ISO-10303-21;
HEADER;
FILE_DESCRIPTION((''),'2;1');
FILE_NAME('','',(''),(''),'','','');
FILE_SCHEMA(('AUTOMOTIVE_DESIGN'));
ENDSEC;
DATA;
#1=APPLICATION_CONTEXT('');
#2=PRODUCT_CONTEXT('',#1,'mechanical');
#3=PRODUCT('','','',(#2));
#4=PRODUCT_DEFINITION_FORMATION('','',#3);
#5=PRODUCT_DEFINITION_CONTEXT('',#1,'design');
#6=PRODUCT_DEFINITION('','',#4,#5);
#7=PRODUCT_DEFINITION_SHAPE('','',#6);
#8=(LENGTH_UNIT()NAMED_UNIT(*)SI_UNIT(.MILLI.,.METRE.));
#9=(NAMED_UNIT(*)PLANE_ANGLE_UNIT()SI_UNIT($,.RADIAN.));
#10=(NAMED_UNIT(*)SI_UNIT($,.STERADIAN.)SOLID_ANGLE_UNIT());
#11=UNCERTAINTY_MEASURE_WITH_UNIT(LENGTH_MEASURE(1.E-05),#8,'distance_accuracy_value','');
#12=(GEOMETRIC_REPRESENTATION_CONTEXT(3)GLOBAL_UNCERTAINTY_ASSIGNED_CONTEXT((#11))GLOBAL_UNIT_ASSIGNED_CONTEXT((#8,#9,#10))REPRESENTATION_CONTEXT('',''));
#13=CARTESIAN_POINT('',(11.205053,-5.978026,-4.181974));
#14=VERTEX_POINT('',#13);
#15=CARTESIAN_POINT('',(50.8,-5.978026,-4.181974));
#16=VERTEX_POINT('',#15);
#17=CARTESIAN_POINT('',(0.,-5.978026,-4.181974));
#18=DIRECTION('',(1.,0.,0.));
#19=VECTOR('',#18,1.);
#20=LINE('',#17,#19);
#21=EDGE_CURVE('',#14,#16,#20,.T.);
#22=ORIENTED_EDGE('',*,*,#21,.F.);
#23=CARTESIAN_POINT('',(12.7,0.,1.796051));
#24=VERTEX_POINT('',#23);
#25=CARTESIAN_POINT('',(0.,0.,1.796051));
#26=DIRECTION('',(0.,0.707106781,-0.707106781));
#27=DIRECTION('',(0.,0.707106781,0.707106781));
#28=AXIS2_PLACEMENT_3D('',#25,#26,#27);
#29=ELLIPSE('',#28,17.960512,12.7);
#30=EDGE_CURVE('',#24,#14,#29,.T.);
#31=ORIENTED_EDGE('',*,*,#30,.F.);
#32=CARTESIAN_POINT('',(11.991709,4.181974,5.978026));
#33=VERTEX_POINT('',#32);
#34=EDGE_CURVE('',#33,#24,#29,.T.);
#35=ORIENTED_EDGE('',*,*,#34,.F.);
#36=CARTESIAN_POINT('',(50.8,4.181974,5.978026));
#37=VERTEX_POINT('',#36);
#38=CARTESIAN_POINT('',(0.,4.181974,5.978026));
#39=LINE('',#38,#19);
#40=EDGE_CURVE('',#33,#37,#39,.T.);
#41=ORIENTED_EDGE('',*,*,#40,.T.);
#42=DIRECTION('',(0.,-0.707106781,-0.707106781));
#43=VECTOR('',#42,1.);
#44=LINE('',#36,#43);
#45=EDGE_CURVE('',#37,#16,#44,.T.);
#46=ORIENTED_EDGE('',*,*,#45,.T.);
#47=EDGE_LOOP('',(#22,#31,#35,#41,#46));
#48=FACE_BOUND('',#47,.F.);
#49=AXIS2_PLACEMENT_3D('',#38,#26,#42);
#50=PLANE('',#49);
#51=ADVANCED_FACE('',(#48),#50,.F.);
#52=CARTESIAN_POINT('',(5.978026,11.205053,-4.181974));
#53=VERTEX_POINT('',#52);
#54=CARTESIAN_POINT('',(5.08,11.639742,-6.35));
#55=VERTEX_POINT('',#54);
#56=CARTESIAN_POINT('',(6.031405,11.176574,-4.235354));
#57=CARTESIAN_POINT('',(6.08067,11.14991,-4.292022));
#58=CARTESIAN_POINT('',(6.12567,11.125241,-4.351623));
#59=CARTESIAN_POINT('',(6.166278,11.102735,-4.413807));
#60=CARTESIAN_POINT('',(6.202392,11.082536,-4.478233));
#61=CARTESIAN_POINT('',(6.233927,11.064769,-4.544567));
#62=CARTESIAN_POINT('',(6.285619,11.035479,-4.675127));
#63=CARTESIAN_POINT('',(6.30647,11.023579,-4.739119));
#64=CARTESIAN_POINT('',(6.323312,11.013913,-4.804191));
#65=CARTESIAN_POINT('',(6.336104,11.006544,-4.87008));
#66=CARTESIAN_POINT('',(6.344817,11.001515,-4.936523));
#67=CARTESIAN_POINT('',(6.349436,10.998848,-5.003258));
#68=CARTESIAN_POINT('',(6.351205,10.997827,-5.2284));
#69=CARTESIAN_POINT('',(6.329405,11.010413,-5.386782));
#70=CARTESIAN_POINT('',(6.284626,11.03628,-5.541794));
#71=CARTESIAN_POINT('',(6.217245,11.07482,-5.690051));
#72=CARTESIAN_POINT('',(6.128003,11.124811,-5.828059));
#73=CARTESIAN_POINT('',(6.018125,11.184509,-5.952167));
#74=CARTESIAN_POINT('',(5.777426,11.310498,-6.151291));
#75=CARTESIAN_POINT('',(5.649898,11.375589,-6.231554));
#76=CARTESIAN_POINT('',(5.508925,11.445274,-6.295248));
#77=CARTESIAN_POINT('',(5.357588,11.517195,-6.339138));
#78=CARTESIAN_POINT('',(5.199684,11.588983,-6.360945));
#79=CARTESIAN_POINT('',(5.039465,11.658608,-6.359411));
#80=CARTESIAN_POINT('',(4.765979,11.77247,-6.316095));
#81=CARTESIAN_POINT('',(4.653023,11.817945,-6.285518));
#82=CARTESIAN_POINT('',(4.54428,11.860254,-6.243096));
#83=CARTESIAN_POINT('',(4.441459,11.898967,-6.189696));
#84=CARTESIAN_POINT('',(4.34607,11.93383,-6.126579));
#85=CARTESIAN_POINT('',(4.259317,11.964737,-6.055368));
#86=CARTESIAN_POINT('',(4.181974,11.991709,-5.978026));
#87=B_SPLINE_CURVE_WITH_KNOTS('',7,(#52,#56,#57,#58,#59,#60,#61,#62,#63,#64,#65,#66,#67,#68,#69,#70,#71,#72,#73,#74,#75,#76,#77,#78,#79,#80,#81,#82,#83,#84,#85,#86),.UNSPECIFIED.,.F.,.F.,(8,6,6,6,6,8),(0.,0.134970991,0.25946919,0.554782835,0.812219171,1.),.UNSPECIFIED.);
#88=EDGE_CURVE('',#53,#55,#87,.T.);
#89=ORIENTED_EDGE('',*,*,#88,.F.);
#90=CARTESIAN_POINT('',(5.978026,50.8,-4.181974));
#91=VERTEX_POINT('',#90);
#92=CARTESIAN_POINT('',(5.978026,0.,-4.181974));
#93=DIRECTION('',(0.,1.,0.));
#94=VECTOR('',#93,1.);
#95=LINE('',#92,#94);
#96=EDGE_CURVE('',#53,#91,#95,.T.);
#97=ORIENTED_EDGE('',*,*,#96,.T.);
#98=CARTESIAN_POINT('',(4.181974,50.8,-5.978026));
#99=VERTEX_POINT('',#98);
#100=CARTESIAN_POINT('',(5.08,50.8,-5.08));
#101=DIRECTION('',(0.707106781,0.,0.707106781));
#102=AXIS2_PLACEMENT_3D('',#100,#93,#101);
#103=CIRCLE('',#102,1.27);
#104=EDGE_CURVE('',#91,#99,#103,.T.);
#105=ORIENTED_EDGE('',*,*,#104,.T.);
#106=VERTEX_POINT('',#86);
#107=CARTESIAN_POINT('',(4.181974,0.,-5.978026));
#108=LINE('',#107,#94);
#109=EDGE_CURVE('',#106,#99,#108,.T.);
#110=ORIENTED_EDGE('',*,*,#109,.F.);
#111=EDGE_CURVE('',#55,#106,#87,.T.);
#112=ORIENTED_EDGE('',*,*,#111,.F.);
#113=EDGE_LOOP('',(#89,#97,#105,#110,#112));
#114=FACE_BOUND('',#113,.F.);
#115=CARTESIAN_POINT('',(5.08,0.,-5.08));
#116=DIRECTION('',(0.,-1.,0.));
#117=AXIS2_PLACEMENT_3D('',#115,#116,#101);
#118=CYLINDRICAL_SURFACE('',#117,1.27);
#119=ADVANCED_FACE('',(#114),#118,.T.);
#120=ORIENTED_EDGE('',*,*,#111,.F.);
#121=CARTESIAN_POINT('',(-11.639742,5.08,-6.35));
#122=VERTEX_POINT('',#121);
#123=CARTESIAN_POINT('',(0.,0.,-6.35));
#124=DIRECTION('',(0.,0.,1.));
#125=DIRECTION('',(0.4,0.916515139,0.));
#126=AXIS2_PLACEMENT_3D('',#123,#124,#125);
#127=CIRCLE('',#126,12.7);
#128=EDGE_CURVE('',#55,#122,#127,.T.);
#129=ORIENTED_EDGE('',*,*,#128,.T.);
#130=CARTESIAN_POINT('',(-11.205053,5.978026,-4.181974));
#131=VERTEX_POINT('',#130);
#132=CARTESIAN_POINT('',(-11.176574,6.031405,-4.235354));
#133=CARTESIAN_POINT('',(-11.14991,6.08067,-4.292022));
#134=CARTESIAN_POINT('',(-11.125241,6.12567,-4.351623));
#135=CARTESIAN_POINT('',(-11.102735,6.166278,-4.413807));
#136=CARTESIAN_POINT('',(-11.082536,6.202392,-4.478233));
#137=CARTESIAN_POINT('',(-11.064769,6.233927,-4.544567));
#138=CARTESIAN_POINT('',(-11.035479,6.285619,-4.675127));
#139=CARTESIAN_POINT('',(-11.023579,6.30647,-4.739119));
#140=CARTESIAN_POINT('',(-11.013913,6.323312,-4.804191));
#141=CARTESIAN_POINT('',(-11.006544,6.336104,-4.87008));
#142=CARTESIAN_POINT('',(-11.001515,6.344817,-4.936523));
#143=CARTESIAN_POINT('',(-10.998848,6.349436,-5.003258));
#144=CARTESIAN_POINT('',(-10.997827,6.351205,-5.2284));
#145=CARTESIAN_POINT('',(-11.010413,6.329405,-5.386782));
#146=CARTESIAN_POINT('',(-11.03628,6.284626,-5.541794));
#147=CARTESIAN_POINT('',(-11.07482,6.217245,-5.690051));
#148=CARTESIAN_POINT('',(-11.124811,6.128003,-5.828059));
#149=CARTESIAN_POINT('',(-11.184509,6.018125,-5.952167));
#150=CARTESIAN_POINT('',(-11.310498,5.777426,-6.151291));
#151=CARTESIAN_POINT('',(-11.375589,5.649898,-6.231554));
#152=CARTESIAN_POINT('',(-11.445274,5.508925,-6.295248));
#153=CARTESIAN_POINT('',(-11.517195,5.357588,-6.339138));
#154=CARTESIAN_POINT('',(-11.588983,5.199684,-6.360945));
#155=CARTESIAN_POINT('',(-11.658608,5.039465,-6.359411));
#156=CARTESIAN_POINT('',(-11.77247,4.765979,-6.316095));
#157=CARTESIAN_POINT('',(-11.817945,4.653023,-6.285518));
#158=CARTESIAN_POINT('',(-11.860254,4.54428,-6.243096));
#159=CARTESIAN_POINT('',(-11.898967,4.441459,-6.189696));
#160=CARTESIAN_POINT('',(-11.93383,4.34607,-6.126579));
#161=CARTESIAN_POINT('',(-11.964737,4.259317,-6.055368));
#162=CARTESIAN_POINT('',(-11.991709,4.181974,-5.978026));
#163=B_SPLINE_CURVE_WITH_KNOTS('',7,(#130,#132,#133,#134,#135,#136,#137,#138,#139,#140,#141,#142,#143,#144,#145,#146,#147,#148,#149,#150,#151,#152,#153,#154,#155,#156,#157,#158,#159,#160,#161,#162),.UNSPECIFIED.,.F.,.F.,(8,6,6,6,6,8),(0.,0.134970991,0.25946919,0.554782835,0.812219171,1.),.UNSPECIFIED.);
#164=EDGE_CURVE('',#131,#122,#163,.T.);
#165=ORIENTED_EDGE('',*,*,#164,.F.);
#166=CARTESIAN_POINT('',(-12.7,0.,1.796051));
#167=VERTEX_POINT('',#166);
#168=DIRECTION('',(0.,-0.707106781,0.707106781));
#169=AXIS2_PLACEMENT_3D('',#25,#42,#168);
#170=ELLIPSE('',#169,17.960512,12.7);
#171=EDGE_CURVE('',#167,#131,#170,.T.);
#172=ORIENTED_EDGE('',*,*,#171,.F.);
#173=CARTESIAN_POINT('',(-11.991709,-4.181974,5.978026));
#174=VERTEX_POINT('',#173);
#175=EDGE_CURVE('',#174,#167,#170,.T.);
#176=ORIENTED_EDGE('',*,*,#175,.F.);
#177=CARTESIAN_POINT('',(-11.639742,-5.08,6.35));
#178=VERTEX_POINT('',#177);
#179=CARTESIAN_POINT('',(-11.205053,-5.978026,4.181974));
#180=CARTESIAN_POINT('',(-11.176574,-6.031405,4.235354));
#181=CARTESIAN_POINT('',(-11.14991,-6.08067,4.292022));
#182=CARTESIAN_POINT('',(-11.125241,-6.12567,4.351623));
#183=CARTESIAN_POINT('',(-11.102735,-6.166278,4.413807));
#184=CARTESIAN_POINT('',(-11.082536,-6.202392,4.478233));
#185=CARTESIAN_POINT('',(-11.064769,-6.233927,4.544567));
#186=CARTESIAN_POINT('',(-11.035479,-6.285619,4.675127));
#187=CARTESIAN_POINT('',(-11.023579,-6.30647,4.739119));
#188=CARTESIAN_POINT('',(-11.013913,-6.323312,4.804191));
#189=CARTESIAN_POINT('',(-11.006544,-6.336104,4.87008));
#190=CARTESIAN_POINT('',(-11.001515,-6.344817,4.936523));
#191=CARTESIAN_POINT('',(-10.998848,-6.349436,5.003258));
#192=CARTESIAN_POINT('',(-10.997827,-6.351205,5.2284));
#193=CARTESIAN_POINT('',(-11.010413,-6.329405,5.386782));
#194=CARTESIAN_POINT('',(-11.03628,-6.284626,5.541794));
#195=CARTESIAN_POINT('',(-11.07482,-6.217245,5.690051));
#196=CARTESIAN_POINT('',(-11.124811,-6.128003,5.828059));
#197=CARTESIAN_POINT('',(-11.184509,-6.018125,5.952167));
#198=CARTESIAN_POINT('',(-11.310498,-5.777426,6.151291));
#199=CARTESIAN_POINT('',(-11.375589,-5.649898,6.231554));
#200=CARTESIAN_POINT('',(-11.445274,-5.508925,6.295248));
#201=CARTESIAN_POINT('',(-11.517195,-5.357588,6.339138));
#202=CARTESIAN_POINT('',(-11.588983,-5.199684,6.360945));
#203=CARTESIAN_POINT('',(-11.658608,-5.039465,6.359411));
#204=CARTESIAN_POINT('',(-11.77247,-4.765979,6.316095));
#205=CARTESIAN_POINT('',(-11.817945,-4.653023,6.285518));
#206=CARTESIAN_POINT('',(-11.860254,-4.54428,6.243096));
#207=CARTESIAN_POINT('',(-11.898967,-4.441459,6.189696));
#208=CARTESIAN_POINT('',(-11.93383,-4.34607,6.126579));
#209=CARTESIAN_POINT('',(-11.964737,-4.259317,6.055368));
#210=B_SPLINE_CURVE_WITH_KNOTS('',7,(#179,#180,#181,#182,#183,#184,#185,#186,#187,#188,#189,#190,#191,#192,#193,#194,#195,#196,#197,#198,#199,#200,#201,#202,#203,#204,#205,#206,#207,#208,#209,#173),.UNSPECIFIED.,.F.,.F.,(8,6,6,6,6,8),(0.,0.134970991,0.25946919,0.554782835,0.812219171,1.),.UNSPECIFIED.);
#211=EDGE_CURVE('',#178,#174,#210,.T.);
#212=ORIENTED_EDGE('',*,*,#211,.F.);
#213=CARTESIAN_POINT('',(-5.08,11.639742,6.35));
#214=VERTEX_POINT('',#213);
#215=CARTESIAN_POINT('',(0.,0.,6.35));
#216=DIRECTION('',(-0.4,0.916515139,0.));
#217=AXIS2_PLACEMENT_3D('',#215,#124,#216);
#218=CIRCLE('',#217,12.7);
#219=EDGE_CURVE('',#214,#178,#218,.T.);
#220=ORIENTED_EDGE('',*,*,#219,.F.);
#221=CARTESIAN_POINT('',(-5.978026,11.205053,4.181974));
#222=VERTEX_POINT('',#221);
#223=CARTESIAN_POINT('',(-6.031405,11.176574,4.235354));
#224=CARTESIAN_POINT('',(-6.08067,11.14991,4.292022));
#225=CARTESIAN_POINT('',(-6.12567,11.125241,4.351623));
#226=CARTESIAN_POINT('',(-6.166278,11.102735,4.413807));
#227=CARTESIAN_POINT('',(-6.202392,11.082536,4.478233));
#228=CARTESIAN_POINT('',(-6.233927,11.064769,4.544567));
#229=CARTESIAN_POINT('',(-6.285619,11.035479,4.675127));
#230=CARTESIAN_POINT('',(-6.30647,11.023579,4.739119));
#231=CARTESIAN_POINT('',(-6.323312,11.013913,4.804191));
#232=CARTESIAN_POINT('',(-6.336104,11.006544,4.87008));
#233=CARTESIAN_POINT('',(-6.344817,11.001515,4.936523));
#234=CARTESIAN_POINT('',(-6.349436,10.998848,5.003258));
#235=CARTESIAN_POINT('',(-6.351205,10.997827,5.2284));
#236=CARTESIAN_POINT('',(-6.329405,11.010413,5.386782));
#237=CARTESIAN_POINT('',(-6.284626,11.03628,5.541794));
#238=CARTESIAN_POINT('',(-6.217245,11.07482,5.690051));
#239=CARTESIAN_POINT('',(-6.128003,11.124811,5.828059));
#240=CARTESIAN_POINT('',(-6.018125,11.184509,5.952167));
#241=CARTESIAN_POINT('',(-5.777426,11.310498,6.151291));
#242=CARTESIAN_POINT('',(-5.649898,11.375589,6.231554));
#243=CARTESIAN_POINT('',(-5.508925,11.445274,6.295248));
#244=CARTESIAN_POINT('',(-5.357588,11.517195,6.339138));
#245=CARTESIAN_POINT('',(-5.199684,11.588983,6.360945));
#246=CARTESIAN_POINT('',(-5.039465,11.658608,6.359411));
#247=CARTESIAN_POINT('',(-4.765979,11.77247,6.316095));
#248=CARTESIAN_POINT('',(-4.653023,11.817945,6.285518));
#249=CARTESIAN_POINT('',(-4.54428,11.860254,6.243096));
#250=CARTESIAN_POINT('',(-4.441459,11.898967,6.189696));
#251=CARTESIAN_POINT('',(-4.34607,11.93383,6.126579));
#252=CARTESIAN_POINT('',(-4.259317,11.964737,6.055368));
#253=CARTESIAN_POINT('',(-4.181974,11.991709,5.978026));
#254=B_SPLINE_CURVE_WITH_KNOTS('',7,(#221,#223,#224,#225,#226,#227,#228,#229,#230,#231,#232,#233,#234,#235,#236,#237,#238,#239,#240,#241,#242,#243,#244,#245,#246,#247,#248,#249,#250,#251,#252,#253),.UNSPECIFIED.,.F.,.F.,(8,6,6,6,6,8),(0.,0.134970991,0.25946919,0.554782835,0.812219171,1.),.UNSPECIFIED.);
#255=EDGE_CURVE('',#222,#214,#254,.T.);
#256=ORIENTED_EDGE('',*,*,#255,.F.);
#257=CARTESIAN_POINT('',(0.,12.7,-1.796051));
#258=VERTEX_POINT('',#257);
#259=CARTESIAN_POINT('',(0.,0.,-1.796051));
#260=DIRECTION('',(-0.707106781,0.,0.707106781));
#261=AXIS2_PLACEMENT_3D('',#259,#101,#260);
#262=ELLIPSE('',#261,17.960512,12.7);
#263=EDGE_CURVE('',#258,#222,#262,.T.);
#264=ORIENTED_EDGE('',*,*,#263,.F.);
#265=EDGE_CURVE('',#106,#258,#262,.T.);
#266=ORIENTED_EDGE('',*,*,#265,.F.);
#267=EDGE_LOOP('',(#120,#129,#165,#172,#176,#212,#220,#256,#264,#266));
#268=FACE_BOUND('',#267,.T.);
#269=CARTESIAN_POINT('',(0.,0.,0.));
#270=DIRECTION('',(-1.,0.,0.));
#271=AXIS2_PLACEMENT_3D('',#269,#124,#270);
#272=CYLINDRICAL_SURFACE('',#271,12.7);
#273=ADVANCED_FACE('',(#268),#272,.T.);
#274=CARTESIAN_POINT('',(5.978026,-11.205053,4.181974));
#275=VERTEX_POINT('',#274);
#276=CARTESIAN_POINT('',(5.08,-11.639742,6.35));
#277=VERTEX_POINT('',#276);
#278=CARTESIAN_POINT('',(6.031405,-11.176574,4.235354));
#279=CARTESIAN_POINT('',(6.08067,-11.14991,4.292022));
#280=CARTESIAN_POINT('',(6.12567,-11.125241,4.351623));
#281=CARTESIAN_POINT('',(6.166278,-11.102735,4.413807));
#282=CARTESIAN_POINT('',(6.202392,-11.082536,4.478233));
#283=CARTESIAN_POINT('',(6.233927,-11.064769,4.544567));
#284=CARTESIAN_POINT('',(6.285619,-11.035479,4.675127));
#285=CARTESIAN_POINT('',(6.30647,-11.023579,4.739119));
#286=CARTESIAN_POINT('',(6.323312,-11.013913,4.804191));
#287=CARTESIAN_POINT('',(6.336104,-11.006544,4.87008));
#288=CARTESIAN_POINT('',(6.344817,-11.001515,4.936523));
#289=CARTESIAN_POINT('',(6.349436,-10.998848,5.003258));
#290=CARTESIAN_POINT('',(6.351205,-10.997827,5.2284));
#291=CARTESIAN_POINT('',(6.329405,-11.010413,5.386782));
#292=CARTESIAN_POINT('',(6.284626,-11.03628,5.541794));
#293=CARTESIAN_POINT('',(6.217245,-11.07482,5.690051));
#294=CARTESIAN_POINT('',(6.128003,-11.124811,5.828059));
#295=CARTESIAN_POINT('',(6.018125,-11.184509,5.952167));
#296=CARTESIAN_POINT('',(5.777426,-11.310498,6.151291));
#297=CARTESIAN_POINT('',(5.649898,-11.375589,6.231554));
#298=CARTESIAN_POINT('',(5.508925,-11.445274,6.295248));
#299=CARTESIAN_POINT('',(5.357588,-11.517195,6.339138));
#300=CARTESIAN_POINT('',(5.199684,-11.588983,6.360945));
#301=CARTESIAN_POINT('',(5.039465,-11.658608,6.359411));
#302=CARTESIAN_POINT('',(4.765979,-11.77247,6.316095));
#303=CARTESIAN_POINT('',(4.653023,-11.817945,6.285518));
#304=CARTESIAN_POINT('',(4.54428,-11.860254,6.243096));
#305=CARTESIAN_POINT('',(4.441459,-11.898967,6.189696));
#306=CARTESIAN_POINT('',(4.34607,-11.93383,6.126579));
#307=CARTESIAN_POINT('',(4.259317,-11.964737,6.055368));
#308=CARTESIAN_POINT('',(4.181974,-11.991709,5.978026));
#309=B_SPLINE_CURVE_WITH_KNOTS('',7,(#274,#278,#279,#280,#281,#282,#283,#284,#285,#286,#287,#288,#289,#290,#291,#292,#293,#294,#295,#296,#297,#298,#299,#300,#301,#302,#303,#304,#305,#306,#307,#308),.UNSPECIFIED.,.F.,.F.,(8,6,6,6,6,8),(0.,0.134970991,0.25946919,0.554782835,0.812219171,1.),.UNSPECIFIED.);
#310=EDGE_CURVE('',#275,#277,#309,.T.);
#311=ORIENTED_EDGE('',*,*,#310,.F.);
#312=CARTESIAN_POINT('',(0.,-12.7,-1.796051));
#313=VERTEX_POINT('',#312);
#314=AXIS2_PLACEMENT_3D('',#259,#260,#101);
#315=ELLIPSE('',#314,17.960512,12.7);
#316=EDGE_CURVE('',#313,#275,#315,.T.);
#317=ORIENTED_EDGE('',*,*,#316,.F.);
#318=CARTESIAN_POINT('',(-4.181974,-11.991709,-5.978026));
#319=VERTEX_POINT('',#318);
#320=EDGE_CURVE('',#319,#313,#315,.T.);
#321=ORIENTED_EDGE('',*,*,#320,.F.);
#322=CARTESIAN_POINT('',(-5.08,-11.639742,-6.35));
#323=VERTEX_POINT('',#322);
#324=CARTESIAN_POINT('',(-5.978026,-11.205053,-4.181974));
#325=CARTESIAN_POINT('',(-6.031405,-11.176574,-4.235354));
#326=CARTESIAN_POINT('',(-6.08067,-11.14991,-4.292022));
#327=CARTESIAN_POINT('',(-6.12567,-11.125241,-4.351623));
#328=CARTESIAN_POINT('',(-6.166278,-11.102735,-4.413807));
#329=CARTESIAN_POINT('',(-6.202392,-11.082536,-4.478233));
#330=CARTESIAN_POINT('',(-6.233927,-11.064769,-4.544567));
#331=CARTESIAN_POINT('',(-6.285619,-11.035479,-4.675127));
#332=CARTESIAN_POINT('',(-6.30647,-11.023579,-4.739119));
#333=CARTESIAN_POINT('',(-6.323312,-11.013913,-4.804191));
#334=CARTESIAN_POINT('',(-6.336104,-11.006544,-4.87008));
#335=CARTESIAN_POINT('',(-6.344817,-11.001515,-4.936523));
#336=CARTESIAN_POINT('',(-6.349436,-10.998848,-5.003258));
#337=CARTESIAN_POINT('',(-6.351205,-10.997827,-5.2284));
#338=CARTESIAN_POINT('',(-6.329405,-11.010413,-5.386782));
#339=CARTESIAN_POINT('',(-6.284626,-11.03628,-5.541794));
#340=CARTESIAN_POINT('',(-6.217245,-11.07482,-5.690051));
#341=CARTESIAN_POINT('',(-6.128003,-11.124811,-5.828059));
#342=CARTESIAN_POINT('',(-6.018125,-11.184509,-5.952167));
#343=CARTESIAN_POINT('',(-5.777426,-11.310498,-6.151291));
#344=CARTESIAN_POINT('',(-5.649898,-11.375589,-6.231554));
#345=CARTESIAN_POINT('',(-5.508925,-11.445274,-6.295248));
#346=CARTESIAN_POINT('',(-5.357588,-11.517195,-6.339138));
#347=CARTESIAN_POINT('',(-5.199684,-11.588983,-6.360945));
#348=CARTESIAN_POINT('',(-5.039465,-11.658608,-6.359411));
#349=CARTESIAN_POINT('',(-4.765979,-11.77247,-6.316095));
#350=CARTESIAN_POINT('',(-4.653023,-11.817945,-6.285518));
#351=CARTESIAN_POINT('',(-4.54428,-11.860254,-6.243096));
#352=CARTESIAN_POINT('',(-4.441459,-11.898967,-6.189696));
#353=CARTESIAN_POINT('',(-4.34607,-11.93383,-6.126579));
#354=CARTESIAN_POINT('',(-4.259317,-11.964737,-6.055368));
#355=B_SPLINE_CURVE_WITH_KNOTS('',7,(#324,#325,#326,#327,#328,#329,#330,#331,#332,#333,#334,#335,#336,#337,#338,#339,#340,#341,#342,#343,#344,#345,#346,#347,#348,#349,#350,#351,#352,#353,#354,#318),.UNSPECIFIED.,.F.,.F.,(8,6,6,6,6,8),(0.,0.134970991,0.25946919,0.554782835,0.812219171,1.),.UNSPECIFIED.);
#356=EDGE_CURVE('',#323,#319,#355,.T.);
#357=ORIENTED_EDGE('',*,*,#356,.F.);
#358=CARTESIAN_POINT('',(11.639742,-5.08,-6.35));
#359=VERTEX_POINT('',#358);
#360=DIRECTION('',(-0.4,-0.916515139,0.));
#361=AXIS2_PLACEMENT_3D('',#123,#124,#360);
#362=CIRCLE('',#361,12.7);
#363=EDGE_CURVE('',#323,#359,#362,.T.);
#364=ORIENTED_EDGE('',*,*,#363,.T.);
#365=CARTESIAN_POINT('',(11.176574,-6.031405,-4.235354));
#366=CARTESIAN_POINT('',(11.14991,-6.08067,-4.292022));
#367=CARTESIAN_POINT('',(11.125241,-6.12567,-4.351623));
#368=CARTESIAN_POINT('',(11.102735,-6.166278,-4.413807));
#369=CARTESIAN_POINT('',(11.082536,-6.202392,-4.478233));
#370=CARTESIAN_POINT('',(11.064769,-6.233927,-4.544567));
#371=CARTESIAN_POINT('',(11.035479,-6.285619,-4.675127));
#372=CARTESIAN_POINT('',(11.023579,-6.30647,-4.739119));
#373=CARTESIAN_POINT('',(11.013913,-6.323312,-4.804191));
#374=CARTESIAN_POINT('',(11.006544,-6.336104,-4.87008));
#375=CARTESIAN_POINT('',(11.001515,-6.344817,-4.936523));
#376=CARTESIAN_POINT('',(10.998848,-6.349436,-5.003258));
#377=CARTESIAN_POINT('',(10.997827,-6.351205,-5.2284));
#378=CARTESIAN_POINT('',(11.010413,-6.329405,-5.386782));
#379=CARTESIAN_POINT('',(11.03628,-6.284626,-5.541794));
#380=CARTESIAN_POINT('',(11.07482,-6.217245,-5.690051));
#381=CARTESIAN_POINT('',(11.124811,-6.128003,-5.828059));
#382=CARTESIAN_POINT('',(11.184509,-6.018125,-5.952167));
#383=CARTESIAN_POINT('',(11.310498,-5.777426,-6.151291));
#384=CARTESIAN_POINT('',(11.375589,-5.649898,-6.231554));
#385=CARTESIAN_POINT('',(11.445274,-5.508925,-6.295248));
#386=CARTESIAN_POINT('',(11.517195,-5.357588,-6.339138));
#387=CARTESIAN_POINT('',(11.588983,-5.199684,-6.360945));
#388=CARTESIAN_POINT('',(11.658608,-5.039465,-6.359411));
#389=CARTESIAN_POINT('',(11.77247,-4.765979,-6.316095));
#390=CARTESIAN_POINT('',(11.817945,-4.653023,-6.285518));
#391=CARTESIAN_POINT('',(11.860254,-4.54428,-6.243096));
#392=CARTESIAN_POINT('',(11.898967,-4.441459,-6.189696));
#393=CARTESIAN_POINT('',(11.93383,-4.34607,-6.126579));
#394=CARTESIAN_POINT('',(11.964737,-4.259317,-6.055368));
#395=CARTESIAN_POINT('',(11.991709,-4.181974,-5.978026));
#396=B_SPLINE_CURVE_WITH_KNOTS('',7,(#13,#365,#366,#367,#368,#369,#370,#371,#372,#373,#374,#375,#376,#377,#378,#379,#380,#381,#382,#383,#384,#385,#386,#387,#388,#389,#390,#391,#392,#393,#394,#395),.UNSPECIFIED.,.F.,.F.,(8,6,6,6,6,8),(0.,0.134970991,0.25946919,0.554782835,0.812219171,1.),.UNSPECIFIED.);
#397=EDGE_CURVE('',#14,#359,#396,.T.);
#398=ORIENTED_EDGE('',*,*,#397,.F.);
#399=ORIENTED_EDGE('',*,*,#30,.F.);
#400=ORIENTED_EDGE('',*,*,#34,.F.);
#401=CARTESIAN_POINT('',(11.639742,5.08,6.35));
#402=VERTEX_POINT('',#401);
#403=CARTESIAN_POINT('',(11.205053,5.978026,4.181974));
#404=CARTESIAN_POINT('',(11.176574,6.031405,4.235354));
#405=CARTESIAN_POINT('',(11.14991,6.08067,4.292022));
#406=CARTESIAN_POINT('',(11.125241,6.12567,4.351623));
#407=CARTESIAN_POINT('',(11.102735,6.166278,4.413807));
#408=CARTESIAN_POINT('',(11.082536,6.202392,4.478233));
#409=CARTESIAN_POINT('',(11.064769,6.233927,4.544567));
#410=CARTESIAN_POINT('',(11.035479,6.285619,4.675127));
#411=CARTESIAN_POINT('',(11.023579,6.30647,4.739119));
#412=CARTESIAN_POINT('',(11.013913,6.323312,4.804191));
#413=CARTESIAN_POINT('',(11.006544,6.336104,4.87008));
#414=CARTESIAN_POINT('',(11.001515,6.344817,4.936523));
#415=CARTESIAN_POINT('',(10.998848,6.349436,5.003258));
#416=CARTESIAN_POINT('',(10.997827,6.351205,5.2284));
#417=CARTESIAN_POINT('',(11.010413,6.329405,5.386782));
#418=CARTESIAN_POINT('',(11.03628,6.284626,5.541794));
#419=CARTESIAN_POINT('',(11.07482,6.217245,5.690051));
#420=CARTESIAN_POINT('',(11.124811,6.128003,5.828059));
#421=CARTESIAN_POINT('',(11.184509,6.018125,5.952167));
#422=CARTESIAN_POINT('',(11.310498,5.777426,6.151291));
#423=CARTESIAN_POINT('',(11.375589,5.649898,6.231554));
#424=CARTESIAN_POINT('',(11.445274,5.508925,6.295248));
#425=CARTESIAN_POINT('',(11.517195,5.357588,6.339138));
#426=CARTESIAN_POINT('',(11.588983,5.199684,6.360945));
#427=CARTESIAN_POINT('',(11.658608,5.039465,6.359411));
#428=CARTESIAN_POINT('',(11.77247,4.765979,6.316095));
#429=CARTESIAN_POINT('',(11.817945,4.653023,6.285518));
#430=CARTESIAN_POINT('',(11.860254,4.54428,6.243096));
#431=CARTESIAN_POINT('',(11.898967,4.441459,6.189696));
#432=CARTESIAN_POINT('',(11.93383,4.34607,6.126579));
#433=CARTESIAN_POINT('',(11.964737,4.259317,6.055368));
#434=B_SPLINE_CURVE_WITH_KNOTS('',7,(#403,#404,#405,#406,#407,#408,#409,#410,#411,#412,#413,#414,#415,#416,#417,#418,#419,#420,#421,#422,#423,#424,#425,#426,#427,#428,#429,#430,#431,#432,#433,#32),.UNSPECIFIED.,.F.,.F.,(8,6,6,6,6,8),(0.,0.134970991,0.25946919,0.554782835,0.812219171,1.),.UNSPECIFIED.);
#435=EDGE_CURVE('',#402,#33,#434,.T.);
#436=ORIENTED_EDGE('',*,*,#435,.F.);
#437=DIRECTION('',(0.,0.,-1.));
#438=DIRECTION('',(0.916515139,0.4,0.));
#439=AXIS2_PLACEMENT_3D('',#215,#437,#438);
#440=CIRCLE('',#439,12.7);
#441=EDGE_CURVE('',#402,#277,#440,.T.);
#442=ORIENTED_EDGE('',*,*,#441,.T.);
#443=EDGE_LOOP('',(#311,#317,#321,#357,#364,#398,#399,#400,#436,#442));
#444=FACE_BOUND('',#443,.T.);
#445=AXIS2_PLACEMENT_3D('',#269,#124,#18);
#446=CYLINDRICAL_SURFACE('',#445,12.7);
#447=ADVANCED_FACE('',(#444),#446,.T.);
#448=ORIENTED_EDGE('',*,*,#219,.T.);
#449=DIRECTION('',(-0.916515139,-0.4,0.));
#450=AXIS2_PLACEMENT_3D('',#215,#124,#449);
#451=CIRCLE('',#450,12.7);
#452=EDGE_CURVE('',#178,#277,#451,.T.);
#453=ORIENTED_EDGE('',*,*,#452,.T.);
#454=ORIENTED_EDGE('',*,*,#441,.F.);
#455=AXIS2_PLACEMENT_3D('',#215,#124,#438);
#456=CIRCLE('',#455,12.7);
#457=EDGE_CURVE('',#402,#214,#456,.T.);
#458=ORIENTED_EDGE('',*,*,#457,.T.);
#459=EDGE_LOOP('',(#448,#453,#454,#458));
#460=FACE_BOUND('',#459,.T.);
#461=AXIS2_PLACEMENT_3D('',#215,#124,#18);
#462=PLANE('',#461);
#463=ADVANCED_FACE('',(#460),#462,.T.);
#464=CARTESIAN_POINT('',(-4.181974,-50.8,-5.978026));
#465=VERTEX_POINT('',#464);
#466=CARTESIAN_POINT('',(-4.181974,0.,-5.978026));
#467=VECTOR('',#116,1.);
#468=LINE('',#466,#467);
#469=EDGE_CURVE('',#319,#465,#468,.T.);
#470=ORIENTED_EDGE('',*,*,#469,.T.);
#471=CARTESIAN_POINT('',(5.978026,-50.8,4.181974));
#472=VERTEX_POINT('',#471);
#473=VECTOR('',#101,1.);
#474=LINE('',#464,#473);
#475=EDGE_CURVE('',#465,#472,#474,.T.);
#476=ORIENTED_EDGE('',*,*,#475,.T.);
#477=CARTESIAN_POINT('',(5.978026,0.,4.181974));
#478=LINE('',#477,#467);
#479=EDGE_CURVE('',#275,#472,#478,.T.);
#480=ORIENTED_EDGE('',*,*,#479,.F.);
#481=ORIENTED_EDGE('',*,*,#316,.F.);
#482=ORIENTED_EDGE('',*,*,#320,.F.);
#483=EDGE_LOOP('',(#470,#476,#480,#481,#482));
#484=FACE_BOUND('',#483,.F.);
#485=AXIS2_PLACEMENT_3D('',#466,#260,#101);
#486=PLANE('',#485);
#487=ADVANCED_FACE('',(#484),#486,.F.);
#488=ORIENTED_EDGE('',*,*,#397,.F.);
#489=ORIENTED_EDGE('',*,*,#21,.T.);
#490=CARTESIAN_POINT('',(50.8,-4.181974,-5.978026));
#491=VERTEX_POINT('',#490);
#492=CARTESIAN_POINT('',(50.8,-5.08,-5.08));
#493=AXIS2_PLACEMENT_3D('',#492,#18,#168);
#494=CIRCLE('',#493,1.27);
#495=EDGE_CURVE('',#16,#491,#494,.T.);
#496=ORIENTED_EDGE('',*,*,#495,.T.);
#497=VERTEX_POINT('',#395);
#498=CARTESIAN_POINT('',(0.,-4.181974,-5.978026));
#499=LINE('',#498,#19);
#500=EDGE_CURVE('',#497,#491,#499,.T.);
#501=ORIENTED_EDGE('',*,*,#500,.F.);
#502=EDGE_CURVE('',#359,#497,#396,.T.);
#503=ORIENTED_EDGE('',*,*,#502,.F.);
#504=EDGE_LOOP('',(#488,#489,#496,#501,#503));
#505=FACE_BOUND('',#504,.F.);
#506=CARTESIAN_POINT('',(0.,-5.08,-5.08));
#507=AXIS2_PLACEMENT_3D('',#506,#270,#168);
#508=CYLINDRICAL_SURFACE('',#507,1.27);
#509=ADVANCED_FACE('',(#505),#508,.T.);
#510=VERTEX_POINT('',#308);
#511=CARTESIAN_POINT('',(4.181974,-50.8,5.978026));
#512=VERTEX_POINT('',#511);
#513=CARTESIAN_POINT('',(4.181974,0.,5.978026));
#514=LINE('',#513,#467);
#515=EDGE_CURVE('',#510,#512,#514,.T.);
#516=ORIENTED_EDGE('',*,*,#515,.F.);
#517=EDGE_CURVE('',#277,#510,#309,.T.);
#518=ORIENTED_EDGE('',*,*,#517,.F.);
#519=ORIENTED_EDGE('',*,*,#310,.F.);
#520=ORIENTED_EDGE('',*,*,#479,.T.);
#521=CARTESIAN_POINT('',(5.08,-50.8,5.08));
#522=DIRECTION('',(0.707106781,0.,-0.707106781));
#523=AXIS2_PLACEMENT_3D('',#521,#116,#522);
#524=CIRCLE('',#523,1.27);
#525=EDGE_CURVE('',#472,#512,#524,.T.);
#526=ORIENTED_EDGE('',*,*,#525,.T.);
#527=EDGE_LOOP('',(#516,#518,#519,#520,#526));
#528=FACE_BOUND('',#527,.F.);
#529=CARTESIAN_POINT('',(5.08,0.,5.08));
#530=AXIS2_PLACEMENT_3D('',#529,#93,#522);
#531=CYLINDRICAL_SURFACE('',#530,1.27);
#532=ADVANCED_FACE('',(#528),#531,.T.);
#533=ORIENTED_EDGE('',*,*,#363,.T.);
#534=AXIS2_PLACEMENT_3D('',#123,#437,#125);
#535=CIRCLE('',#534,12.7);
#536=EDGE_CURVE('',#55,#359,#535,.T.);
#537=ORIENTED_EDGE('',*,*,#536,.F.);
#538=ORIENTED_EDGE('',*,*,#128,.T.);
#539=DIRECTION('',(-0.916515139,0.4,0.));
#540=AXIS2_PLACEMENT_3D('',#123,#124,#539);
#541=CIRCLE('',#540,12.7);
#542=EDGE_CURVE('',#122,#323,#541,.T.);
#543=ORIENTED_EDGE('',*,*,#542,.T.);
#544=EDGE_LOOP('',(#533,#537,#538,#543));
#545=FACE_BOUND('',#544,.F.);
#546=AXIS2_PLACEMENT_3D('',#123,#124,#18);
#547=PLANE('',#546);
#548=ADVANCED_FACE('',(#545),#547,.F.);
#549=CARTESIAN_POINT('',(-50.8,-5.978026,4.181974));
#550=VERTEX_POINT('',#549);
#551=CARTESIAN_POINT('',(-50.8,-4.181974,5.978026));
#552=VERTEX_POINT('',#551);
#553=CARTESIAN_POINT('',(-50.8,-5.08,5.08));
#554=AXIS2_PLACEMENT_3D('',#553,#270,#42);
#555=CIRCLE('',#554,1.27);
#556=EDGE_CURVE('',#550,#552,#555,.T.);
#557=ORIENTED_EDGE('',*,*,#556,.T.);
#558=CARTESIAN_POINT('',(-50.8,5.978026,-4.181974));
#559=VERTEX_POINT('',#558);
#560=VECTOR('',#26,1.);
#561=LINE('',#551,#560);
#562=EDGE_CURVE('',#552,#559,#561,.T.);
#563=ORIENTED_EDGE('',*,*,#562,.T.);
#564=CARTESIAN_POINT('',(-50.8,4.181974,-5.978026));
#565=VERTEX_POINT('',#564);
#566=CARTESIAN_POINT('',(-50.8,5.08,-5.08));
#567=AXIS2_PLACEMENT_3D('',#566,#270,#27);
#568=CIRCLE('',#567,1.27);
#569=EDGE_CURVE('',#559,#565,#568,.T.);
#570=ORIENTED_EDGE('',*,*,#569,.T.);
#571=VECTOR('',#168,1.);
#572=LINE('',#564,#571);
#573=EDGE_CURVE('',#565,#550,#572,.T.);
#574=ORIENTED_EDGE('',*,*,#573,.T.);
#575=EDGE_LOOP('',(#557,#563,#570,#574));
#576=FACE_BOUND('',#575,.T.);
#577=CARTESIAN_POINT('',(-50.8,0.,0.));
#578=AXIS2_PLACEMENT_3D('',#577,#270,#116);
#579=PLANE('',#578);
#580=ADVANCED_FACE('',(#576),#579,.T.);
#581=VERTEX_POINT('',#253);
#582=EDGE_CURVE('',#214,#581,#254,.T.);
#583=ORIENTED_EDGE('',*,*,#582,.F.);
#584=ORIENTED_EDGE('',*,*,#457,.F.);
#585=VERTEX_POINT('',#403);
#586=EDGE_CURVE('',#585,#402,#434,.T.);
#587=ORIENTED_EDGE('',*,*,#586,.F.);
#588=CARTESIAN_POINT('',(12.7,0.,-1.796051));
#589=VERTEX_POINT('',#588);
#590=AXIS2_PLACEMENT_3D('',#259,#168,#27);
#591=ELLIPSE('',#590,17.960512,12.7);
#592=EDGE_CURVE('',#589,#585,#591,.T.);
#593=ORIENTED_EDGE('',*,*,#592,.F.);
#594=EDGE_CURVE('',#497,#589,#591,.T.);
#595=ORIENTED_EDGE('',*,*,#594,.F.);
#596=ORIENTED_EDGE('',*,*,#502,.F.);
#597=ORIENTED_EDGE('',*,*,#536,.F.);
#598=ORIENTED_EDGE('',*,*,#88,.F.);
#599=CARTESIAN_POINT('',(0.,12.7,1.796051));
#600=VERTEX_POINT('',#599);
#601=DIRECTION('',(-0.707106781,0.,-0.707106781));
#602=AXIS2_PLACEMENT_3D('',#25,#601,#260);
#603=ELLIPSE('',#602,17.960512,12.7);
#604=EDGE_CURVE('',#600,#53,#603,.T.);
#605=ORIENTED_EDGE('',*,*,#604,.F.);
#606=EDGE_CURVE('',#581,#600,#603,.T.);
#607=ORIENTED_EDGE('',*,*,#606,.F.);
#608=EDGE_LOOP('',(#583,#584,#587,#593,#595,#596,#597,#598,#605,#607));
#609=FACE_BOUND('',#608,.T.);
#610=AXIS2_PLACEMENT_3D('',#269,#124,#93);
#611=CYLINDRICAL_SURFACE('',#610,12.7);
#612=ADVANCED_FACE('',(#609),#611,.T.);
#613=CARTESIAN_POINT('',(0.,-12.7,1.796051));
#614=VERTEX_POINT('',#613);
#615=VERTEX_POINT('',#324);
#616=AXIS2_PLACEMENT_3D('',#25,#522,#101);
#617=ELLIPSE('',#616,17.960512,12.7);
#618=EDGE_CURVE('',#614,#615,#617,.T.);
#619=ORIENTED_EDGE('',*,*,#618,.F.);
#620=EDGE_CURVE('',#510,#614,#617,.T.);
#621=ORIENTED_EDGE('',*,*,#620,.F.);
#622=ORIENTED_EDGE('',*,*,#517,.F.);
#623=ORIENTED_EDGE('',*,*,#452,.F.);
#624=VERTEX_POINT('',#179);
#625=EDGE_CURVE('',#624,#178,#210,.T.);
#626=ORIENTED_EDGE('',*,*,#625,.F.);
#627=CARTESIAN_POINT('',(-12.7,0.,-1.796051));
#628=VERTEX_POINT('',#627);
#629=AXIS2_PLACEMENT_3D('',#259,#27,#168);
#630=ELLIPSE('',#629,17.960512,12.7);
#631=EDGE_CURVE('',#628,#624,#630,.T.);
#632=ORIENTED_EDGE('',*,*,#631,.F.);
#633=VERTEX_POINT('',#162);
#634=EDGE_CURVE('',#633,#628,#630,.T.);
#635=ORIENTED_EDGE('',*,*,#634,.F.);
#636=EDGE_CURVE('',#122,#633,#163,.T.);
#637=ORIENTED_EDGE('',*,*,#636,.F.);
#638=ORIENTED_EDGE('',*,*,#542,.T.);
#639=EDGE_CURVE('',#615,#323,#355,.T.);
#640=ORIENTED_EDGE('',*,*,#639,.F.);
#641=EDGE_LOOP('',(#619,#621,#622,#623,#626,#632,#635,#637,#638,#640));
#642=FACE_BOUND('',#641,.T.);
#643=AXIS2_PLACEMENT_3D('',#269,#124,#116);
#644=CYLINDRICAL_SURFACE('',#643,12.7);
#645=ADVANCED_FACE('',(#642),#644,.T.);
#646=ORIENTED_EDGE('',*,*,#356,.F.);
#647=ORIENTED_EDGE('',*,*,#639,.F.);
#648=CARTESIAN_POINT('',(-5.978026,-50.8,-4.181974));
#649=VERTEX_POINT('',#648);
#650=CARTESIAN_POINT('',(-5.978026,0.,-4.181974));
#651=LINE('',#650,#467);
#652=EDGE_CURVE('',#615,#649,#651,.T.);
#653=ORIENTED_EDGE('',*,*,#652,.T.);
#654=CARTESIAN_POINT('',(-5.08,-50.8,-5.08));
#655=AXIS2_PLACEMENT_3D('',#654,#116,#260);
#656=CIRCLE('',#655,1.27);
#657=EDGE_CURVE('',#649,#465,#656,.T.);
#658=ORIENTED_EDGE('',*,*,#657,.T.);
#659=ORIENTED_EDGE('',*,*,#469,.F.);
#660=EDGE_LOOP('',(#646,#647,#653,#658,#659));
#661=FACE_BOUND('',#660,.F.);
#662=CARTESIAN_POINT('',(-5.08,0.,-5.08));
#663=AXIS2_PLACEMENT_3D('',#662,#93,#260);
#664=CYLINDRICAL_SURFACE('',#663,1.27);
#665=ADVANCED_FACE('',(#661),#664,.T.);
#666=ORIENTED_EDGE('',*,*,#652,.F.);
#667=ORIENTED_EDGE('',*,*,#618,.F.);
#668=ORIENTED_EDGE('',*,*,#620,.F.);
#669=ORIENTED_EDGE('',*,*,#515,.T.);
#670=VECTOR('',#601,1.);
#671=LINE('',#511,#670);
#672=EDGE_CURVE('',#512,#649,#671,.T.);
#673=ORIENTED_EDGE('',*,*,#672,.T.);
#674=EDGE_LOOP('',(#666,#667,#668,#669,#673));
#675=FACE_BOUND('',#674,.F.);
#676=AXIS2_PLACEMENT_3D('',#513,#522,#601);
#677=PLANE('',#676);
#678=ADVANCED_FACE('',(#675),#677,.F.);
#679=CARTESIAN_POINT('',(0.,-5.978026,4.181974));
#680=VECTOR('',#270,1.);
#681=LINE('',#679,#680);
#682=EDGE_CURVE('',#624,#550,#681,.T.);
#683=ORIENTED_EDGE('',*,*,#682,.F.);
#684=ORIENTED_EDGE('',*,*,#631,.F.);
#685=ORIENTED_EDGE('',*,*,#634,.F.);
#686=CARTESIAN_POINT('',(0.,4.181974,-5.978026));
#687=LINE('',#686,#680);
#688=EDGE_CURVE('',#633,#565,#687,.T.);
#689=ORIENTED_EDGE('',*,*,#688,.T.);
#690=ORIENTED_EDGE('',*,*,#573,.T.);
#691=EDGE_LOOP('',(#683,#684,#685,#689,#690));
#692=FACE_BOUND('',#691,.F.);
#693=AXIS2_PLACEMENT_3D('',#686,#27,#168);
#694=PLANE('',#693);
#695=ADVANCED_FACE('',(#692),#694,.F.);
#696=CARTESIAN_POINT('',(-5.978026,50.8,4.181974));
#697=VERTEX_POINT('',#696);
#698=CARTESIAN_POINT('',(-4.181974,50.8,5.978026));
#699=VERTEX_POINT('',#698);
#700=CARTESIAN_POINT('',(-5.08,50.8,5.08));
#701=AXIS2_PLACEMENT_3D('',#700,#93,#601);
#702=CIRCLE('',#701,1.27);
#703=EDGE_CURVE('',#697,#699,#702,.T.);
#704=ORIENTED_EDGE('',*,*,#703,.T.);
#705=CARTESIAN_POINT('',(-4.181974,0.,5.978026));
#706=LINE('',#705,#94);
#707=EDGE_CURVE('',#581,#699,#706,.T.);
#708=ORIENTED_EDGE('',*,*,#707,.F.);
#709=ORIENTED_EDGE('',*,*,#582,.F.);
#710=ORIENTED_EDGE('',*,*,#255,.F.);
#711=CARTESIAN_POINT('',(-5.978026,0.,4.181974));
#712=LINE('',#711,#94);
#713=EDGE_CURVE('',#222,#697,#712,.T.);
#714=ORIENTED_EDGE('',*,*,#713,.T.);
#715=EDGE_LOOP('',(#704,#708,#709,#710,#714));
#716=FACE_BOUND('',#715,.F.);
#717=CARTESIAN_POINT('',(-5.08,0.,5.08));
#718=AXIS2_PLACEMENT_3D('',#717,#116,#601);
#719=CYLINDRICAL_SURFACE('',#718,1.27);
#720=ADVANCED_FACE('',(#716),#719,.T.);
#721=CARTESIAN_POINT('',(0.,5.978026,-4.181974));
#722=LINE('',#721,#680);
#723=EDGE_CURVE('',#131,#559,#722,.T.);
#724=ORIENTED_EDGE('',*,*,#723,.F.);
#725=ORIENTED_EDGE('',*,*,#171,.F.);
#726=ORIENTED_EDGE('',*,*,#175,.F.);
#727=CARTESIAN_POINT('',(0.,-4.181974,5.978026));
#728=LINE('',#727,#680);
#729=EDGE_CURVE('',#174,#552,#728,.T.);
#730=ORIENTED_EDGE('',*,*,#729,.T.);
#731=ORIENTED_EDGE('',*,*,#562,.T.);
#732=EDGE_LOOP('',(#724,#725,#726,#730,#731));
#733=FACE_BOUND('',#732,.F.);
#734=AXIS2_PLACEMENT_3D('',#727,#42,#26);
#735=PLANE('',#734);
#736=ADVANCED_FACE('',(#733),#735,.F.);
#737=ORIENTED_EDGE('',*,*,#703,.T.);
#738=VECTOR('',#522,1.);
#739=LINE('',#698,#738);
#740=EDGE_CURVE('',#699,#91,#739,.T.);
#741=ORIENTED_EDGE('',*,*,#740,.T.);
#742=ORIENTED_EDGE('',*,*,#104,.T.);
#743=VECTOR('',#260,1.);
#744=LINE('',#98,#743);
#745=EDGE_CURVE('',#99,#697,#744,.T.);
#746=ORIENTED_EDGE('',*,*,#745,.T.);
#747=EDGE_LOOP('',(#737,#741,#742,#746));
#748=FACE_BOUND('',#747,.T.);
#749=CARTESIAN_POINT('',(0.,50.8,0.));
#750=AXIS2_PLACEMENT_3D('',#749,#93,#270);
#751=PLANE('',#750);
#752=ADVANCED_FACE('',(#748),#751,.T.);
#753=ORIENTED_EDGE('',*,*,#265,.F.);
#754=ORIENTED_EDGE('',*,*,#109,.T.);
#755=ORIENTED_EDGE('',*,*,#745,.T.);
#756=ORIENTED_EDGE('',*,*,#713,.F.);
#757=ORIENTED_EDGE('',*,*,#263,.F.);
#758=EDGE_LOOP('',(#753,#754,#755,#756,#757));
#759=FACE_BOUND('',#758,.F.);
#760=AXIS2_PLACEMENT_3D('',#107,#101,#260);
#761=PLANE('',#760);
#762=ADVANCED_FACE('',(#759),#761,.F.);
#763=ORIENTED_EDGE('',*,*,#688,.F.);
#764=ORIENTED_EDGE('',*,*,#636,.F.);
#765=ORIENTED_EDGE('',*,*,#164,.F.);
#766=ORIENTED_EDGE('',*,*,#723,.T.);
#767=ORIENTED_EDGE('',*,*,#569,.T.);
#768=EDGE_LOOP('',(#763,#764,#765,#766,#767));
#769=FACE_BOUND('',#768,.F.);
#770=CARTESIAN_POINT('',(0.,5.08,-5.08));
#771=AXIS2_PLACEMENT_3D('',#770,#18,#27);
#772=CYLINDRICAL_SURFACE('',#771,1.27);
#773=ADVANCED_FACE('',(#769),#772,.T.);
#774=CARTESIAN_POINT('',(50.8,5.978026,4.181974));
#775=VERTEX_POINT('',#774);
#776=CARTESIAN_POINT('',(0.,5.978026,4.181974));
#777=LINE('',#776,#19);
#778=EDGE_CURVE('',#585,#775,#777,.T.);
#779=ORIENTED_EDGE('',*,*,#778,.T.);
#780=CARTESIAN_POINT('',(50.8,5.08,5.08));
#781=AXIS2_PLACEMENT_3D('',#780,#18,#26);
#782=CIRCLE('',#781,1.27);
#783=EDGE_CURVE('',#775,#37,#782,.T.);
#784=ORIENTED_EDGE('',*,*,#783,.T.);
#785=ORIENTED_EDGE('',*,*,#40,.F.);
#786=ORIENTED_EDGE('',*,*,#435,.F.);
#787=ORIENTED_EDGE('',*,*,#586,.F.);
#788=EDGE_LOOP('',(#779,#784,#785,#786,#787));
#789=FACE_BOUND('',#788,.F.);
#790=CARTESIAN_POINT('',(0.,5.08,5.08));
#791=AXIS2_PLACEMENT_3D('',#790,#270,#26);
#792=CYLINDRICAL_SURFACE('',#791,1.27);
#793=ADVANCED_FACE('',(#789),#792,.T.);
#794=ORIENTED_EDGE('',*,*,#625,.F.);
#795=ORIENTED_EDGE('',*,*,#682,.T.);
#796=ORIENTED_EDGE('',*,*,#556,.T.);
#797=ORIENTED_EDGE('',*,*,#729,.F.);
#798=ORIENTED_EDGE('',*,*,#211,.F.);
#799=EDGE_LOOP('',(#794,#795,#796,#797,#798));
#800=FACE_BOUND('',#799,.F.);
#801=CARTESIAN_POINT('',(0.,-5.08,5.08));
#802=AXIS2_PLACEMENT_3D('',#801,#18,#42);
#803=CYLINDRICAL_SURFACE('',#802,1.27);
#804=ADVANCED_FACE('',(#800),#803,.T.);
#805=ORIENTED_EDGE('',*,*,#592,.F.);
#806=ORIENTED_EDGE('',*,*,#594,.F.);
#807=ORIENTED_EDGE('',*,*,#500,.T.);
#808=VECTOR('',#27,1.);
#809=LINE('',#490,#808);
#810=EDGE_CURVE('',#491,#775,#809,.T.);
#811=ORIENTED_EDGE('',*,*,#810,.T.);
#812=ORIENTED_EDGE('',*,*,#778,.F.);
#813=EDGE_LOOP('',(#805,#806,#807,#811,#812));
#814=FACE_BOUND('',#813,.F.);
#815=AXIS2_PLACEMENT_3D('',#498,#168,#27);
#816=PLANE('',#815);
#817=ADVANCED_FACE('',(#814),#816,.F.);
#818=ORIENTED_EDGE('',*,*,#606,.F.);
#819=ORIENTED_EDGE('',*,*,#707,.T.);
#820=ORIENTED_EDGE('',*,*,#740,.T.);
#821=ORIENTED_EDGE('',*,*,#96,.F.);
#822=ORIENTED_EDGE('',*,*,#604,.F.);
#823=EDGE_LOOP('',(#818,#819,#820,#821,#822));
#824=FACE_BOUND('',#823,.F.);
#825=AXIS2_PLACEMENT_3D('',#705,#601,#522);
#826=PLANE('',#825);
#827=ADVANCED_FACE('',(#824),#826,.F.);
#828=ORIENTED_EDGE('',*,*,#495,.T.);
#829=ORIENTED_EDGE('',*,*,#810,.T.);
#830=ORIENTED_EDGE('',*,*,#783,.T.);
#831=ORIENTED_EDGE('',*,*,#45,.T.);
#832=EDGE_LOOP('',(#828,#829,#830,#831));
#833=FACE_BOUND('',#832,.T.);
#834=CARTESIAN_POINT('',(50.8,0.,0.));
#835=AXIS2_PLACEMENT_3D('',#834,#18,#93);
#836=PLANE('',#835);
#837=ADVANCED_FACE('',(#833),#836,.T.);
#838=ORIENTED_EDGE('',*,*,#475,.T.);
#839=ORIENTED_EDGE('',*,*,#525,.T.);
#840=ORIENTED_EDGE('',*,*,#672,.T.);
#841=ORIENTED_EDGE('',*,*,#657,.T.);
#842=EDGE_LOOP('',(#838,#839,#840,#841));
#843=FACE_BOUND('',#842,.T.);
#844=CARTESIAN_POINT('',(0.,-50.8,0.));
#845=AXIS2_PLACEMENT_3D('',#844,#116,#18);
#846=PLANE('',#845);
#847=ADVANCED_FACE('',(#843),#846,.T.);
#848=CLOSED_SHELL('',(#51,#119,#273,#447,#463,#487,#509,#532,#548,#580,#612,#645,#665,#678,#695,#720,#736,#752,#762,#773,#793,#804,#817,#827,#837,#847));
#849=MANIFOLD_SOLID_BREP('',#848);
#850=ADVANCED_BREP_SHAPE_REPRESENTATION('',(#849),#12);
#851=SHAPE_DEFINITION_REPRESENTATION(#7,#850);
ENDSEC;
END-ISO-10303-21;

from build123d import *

# Parameters (mm, degrees)
F0_R     = 12.7
F1_DEPTH = 6.35
F3_DEPTH = 50.8
F4_COUNT = 4


with BuildPart() as f1:
    # F0 (on Top) → F1 (new body, symmetric)
    with BuildSketch(Plane.XY):
        Circle(F0_R)
    extrude(amount=F1_DEPTH, both=True)

    # F2 (on Right) → F3 (join)
    with BuildSketch(Plane.YZ):
        with BuildLine():
            Line((-4.1819743879, -5.9780256121), (5.9780256121, 4.1819743879))
            ThreePointArc((5.9780256121, 4.1819743879), (5.9780256121, 5.9780256121), (4.1819743879, 5.9780256121))
            Line((4.1819743879, 5.9780256121), (-5.9780256121, -4.1819743879))
            ThreePointArc((-5.9780256121, -4.1819743879), (-5.9780256121, -5.9780256121), (-4.1819743879, -5.9780256121))
        make_face()
    extrude(amount=F3_DEPTH)

    # F4: F1 ×4 about axis
    f4_axis = Axis((0, 0, 0), (0, 0, 1))


with BuildPart() as f1_1:
    add(f1.part)
    for i in range(1, F4_COUNT):
        add(f1.part.rotate(f4_axis, i * 360 / F4_COUNT))


solid = f1_1.part
